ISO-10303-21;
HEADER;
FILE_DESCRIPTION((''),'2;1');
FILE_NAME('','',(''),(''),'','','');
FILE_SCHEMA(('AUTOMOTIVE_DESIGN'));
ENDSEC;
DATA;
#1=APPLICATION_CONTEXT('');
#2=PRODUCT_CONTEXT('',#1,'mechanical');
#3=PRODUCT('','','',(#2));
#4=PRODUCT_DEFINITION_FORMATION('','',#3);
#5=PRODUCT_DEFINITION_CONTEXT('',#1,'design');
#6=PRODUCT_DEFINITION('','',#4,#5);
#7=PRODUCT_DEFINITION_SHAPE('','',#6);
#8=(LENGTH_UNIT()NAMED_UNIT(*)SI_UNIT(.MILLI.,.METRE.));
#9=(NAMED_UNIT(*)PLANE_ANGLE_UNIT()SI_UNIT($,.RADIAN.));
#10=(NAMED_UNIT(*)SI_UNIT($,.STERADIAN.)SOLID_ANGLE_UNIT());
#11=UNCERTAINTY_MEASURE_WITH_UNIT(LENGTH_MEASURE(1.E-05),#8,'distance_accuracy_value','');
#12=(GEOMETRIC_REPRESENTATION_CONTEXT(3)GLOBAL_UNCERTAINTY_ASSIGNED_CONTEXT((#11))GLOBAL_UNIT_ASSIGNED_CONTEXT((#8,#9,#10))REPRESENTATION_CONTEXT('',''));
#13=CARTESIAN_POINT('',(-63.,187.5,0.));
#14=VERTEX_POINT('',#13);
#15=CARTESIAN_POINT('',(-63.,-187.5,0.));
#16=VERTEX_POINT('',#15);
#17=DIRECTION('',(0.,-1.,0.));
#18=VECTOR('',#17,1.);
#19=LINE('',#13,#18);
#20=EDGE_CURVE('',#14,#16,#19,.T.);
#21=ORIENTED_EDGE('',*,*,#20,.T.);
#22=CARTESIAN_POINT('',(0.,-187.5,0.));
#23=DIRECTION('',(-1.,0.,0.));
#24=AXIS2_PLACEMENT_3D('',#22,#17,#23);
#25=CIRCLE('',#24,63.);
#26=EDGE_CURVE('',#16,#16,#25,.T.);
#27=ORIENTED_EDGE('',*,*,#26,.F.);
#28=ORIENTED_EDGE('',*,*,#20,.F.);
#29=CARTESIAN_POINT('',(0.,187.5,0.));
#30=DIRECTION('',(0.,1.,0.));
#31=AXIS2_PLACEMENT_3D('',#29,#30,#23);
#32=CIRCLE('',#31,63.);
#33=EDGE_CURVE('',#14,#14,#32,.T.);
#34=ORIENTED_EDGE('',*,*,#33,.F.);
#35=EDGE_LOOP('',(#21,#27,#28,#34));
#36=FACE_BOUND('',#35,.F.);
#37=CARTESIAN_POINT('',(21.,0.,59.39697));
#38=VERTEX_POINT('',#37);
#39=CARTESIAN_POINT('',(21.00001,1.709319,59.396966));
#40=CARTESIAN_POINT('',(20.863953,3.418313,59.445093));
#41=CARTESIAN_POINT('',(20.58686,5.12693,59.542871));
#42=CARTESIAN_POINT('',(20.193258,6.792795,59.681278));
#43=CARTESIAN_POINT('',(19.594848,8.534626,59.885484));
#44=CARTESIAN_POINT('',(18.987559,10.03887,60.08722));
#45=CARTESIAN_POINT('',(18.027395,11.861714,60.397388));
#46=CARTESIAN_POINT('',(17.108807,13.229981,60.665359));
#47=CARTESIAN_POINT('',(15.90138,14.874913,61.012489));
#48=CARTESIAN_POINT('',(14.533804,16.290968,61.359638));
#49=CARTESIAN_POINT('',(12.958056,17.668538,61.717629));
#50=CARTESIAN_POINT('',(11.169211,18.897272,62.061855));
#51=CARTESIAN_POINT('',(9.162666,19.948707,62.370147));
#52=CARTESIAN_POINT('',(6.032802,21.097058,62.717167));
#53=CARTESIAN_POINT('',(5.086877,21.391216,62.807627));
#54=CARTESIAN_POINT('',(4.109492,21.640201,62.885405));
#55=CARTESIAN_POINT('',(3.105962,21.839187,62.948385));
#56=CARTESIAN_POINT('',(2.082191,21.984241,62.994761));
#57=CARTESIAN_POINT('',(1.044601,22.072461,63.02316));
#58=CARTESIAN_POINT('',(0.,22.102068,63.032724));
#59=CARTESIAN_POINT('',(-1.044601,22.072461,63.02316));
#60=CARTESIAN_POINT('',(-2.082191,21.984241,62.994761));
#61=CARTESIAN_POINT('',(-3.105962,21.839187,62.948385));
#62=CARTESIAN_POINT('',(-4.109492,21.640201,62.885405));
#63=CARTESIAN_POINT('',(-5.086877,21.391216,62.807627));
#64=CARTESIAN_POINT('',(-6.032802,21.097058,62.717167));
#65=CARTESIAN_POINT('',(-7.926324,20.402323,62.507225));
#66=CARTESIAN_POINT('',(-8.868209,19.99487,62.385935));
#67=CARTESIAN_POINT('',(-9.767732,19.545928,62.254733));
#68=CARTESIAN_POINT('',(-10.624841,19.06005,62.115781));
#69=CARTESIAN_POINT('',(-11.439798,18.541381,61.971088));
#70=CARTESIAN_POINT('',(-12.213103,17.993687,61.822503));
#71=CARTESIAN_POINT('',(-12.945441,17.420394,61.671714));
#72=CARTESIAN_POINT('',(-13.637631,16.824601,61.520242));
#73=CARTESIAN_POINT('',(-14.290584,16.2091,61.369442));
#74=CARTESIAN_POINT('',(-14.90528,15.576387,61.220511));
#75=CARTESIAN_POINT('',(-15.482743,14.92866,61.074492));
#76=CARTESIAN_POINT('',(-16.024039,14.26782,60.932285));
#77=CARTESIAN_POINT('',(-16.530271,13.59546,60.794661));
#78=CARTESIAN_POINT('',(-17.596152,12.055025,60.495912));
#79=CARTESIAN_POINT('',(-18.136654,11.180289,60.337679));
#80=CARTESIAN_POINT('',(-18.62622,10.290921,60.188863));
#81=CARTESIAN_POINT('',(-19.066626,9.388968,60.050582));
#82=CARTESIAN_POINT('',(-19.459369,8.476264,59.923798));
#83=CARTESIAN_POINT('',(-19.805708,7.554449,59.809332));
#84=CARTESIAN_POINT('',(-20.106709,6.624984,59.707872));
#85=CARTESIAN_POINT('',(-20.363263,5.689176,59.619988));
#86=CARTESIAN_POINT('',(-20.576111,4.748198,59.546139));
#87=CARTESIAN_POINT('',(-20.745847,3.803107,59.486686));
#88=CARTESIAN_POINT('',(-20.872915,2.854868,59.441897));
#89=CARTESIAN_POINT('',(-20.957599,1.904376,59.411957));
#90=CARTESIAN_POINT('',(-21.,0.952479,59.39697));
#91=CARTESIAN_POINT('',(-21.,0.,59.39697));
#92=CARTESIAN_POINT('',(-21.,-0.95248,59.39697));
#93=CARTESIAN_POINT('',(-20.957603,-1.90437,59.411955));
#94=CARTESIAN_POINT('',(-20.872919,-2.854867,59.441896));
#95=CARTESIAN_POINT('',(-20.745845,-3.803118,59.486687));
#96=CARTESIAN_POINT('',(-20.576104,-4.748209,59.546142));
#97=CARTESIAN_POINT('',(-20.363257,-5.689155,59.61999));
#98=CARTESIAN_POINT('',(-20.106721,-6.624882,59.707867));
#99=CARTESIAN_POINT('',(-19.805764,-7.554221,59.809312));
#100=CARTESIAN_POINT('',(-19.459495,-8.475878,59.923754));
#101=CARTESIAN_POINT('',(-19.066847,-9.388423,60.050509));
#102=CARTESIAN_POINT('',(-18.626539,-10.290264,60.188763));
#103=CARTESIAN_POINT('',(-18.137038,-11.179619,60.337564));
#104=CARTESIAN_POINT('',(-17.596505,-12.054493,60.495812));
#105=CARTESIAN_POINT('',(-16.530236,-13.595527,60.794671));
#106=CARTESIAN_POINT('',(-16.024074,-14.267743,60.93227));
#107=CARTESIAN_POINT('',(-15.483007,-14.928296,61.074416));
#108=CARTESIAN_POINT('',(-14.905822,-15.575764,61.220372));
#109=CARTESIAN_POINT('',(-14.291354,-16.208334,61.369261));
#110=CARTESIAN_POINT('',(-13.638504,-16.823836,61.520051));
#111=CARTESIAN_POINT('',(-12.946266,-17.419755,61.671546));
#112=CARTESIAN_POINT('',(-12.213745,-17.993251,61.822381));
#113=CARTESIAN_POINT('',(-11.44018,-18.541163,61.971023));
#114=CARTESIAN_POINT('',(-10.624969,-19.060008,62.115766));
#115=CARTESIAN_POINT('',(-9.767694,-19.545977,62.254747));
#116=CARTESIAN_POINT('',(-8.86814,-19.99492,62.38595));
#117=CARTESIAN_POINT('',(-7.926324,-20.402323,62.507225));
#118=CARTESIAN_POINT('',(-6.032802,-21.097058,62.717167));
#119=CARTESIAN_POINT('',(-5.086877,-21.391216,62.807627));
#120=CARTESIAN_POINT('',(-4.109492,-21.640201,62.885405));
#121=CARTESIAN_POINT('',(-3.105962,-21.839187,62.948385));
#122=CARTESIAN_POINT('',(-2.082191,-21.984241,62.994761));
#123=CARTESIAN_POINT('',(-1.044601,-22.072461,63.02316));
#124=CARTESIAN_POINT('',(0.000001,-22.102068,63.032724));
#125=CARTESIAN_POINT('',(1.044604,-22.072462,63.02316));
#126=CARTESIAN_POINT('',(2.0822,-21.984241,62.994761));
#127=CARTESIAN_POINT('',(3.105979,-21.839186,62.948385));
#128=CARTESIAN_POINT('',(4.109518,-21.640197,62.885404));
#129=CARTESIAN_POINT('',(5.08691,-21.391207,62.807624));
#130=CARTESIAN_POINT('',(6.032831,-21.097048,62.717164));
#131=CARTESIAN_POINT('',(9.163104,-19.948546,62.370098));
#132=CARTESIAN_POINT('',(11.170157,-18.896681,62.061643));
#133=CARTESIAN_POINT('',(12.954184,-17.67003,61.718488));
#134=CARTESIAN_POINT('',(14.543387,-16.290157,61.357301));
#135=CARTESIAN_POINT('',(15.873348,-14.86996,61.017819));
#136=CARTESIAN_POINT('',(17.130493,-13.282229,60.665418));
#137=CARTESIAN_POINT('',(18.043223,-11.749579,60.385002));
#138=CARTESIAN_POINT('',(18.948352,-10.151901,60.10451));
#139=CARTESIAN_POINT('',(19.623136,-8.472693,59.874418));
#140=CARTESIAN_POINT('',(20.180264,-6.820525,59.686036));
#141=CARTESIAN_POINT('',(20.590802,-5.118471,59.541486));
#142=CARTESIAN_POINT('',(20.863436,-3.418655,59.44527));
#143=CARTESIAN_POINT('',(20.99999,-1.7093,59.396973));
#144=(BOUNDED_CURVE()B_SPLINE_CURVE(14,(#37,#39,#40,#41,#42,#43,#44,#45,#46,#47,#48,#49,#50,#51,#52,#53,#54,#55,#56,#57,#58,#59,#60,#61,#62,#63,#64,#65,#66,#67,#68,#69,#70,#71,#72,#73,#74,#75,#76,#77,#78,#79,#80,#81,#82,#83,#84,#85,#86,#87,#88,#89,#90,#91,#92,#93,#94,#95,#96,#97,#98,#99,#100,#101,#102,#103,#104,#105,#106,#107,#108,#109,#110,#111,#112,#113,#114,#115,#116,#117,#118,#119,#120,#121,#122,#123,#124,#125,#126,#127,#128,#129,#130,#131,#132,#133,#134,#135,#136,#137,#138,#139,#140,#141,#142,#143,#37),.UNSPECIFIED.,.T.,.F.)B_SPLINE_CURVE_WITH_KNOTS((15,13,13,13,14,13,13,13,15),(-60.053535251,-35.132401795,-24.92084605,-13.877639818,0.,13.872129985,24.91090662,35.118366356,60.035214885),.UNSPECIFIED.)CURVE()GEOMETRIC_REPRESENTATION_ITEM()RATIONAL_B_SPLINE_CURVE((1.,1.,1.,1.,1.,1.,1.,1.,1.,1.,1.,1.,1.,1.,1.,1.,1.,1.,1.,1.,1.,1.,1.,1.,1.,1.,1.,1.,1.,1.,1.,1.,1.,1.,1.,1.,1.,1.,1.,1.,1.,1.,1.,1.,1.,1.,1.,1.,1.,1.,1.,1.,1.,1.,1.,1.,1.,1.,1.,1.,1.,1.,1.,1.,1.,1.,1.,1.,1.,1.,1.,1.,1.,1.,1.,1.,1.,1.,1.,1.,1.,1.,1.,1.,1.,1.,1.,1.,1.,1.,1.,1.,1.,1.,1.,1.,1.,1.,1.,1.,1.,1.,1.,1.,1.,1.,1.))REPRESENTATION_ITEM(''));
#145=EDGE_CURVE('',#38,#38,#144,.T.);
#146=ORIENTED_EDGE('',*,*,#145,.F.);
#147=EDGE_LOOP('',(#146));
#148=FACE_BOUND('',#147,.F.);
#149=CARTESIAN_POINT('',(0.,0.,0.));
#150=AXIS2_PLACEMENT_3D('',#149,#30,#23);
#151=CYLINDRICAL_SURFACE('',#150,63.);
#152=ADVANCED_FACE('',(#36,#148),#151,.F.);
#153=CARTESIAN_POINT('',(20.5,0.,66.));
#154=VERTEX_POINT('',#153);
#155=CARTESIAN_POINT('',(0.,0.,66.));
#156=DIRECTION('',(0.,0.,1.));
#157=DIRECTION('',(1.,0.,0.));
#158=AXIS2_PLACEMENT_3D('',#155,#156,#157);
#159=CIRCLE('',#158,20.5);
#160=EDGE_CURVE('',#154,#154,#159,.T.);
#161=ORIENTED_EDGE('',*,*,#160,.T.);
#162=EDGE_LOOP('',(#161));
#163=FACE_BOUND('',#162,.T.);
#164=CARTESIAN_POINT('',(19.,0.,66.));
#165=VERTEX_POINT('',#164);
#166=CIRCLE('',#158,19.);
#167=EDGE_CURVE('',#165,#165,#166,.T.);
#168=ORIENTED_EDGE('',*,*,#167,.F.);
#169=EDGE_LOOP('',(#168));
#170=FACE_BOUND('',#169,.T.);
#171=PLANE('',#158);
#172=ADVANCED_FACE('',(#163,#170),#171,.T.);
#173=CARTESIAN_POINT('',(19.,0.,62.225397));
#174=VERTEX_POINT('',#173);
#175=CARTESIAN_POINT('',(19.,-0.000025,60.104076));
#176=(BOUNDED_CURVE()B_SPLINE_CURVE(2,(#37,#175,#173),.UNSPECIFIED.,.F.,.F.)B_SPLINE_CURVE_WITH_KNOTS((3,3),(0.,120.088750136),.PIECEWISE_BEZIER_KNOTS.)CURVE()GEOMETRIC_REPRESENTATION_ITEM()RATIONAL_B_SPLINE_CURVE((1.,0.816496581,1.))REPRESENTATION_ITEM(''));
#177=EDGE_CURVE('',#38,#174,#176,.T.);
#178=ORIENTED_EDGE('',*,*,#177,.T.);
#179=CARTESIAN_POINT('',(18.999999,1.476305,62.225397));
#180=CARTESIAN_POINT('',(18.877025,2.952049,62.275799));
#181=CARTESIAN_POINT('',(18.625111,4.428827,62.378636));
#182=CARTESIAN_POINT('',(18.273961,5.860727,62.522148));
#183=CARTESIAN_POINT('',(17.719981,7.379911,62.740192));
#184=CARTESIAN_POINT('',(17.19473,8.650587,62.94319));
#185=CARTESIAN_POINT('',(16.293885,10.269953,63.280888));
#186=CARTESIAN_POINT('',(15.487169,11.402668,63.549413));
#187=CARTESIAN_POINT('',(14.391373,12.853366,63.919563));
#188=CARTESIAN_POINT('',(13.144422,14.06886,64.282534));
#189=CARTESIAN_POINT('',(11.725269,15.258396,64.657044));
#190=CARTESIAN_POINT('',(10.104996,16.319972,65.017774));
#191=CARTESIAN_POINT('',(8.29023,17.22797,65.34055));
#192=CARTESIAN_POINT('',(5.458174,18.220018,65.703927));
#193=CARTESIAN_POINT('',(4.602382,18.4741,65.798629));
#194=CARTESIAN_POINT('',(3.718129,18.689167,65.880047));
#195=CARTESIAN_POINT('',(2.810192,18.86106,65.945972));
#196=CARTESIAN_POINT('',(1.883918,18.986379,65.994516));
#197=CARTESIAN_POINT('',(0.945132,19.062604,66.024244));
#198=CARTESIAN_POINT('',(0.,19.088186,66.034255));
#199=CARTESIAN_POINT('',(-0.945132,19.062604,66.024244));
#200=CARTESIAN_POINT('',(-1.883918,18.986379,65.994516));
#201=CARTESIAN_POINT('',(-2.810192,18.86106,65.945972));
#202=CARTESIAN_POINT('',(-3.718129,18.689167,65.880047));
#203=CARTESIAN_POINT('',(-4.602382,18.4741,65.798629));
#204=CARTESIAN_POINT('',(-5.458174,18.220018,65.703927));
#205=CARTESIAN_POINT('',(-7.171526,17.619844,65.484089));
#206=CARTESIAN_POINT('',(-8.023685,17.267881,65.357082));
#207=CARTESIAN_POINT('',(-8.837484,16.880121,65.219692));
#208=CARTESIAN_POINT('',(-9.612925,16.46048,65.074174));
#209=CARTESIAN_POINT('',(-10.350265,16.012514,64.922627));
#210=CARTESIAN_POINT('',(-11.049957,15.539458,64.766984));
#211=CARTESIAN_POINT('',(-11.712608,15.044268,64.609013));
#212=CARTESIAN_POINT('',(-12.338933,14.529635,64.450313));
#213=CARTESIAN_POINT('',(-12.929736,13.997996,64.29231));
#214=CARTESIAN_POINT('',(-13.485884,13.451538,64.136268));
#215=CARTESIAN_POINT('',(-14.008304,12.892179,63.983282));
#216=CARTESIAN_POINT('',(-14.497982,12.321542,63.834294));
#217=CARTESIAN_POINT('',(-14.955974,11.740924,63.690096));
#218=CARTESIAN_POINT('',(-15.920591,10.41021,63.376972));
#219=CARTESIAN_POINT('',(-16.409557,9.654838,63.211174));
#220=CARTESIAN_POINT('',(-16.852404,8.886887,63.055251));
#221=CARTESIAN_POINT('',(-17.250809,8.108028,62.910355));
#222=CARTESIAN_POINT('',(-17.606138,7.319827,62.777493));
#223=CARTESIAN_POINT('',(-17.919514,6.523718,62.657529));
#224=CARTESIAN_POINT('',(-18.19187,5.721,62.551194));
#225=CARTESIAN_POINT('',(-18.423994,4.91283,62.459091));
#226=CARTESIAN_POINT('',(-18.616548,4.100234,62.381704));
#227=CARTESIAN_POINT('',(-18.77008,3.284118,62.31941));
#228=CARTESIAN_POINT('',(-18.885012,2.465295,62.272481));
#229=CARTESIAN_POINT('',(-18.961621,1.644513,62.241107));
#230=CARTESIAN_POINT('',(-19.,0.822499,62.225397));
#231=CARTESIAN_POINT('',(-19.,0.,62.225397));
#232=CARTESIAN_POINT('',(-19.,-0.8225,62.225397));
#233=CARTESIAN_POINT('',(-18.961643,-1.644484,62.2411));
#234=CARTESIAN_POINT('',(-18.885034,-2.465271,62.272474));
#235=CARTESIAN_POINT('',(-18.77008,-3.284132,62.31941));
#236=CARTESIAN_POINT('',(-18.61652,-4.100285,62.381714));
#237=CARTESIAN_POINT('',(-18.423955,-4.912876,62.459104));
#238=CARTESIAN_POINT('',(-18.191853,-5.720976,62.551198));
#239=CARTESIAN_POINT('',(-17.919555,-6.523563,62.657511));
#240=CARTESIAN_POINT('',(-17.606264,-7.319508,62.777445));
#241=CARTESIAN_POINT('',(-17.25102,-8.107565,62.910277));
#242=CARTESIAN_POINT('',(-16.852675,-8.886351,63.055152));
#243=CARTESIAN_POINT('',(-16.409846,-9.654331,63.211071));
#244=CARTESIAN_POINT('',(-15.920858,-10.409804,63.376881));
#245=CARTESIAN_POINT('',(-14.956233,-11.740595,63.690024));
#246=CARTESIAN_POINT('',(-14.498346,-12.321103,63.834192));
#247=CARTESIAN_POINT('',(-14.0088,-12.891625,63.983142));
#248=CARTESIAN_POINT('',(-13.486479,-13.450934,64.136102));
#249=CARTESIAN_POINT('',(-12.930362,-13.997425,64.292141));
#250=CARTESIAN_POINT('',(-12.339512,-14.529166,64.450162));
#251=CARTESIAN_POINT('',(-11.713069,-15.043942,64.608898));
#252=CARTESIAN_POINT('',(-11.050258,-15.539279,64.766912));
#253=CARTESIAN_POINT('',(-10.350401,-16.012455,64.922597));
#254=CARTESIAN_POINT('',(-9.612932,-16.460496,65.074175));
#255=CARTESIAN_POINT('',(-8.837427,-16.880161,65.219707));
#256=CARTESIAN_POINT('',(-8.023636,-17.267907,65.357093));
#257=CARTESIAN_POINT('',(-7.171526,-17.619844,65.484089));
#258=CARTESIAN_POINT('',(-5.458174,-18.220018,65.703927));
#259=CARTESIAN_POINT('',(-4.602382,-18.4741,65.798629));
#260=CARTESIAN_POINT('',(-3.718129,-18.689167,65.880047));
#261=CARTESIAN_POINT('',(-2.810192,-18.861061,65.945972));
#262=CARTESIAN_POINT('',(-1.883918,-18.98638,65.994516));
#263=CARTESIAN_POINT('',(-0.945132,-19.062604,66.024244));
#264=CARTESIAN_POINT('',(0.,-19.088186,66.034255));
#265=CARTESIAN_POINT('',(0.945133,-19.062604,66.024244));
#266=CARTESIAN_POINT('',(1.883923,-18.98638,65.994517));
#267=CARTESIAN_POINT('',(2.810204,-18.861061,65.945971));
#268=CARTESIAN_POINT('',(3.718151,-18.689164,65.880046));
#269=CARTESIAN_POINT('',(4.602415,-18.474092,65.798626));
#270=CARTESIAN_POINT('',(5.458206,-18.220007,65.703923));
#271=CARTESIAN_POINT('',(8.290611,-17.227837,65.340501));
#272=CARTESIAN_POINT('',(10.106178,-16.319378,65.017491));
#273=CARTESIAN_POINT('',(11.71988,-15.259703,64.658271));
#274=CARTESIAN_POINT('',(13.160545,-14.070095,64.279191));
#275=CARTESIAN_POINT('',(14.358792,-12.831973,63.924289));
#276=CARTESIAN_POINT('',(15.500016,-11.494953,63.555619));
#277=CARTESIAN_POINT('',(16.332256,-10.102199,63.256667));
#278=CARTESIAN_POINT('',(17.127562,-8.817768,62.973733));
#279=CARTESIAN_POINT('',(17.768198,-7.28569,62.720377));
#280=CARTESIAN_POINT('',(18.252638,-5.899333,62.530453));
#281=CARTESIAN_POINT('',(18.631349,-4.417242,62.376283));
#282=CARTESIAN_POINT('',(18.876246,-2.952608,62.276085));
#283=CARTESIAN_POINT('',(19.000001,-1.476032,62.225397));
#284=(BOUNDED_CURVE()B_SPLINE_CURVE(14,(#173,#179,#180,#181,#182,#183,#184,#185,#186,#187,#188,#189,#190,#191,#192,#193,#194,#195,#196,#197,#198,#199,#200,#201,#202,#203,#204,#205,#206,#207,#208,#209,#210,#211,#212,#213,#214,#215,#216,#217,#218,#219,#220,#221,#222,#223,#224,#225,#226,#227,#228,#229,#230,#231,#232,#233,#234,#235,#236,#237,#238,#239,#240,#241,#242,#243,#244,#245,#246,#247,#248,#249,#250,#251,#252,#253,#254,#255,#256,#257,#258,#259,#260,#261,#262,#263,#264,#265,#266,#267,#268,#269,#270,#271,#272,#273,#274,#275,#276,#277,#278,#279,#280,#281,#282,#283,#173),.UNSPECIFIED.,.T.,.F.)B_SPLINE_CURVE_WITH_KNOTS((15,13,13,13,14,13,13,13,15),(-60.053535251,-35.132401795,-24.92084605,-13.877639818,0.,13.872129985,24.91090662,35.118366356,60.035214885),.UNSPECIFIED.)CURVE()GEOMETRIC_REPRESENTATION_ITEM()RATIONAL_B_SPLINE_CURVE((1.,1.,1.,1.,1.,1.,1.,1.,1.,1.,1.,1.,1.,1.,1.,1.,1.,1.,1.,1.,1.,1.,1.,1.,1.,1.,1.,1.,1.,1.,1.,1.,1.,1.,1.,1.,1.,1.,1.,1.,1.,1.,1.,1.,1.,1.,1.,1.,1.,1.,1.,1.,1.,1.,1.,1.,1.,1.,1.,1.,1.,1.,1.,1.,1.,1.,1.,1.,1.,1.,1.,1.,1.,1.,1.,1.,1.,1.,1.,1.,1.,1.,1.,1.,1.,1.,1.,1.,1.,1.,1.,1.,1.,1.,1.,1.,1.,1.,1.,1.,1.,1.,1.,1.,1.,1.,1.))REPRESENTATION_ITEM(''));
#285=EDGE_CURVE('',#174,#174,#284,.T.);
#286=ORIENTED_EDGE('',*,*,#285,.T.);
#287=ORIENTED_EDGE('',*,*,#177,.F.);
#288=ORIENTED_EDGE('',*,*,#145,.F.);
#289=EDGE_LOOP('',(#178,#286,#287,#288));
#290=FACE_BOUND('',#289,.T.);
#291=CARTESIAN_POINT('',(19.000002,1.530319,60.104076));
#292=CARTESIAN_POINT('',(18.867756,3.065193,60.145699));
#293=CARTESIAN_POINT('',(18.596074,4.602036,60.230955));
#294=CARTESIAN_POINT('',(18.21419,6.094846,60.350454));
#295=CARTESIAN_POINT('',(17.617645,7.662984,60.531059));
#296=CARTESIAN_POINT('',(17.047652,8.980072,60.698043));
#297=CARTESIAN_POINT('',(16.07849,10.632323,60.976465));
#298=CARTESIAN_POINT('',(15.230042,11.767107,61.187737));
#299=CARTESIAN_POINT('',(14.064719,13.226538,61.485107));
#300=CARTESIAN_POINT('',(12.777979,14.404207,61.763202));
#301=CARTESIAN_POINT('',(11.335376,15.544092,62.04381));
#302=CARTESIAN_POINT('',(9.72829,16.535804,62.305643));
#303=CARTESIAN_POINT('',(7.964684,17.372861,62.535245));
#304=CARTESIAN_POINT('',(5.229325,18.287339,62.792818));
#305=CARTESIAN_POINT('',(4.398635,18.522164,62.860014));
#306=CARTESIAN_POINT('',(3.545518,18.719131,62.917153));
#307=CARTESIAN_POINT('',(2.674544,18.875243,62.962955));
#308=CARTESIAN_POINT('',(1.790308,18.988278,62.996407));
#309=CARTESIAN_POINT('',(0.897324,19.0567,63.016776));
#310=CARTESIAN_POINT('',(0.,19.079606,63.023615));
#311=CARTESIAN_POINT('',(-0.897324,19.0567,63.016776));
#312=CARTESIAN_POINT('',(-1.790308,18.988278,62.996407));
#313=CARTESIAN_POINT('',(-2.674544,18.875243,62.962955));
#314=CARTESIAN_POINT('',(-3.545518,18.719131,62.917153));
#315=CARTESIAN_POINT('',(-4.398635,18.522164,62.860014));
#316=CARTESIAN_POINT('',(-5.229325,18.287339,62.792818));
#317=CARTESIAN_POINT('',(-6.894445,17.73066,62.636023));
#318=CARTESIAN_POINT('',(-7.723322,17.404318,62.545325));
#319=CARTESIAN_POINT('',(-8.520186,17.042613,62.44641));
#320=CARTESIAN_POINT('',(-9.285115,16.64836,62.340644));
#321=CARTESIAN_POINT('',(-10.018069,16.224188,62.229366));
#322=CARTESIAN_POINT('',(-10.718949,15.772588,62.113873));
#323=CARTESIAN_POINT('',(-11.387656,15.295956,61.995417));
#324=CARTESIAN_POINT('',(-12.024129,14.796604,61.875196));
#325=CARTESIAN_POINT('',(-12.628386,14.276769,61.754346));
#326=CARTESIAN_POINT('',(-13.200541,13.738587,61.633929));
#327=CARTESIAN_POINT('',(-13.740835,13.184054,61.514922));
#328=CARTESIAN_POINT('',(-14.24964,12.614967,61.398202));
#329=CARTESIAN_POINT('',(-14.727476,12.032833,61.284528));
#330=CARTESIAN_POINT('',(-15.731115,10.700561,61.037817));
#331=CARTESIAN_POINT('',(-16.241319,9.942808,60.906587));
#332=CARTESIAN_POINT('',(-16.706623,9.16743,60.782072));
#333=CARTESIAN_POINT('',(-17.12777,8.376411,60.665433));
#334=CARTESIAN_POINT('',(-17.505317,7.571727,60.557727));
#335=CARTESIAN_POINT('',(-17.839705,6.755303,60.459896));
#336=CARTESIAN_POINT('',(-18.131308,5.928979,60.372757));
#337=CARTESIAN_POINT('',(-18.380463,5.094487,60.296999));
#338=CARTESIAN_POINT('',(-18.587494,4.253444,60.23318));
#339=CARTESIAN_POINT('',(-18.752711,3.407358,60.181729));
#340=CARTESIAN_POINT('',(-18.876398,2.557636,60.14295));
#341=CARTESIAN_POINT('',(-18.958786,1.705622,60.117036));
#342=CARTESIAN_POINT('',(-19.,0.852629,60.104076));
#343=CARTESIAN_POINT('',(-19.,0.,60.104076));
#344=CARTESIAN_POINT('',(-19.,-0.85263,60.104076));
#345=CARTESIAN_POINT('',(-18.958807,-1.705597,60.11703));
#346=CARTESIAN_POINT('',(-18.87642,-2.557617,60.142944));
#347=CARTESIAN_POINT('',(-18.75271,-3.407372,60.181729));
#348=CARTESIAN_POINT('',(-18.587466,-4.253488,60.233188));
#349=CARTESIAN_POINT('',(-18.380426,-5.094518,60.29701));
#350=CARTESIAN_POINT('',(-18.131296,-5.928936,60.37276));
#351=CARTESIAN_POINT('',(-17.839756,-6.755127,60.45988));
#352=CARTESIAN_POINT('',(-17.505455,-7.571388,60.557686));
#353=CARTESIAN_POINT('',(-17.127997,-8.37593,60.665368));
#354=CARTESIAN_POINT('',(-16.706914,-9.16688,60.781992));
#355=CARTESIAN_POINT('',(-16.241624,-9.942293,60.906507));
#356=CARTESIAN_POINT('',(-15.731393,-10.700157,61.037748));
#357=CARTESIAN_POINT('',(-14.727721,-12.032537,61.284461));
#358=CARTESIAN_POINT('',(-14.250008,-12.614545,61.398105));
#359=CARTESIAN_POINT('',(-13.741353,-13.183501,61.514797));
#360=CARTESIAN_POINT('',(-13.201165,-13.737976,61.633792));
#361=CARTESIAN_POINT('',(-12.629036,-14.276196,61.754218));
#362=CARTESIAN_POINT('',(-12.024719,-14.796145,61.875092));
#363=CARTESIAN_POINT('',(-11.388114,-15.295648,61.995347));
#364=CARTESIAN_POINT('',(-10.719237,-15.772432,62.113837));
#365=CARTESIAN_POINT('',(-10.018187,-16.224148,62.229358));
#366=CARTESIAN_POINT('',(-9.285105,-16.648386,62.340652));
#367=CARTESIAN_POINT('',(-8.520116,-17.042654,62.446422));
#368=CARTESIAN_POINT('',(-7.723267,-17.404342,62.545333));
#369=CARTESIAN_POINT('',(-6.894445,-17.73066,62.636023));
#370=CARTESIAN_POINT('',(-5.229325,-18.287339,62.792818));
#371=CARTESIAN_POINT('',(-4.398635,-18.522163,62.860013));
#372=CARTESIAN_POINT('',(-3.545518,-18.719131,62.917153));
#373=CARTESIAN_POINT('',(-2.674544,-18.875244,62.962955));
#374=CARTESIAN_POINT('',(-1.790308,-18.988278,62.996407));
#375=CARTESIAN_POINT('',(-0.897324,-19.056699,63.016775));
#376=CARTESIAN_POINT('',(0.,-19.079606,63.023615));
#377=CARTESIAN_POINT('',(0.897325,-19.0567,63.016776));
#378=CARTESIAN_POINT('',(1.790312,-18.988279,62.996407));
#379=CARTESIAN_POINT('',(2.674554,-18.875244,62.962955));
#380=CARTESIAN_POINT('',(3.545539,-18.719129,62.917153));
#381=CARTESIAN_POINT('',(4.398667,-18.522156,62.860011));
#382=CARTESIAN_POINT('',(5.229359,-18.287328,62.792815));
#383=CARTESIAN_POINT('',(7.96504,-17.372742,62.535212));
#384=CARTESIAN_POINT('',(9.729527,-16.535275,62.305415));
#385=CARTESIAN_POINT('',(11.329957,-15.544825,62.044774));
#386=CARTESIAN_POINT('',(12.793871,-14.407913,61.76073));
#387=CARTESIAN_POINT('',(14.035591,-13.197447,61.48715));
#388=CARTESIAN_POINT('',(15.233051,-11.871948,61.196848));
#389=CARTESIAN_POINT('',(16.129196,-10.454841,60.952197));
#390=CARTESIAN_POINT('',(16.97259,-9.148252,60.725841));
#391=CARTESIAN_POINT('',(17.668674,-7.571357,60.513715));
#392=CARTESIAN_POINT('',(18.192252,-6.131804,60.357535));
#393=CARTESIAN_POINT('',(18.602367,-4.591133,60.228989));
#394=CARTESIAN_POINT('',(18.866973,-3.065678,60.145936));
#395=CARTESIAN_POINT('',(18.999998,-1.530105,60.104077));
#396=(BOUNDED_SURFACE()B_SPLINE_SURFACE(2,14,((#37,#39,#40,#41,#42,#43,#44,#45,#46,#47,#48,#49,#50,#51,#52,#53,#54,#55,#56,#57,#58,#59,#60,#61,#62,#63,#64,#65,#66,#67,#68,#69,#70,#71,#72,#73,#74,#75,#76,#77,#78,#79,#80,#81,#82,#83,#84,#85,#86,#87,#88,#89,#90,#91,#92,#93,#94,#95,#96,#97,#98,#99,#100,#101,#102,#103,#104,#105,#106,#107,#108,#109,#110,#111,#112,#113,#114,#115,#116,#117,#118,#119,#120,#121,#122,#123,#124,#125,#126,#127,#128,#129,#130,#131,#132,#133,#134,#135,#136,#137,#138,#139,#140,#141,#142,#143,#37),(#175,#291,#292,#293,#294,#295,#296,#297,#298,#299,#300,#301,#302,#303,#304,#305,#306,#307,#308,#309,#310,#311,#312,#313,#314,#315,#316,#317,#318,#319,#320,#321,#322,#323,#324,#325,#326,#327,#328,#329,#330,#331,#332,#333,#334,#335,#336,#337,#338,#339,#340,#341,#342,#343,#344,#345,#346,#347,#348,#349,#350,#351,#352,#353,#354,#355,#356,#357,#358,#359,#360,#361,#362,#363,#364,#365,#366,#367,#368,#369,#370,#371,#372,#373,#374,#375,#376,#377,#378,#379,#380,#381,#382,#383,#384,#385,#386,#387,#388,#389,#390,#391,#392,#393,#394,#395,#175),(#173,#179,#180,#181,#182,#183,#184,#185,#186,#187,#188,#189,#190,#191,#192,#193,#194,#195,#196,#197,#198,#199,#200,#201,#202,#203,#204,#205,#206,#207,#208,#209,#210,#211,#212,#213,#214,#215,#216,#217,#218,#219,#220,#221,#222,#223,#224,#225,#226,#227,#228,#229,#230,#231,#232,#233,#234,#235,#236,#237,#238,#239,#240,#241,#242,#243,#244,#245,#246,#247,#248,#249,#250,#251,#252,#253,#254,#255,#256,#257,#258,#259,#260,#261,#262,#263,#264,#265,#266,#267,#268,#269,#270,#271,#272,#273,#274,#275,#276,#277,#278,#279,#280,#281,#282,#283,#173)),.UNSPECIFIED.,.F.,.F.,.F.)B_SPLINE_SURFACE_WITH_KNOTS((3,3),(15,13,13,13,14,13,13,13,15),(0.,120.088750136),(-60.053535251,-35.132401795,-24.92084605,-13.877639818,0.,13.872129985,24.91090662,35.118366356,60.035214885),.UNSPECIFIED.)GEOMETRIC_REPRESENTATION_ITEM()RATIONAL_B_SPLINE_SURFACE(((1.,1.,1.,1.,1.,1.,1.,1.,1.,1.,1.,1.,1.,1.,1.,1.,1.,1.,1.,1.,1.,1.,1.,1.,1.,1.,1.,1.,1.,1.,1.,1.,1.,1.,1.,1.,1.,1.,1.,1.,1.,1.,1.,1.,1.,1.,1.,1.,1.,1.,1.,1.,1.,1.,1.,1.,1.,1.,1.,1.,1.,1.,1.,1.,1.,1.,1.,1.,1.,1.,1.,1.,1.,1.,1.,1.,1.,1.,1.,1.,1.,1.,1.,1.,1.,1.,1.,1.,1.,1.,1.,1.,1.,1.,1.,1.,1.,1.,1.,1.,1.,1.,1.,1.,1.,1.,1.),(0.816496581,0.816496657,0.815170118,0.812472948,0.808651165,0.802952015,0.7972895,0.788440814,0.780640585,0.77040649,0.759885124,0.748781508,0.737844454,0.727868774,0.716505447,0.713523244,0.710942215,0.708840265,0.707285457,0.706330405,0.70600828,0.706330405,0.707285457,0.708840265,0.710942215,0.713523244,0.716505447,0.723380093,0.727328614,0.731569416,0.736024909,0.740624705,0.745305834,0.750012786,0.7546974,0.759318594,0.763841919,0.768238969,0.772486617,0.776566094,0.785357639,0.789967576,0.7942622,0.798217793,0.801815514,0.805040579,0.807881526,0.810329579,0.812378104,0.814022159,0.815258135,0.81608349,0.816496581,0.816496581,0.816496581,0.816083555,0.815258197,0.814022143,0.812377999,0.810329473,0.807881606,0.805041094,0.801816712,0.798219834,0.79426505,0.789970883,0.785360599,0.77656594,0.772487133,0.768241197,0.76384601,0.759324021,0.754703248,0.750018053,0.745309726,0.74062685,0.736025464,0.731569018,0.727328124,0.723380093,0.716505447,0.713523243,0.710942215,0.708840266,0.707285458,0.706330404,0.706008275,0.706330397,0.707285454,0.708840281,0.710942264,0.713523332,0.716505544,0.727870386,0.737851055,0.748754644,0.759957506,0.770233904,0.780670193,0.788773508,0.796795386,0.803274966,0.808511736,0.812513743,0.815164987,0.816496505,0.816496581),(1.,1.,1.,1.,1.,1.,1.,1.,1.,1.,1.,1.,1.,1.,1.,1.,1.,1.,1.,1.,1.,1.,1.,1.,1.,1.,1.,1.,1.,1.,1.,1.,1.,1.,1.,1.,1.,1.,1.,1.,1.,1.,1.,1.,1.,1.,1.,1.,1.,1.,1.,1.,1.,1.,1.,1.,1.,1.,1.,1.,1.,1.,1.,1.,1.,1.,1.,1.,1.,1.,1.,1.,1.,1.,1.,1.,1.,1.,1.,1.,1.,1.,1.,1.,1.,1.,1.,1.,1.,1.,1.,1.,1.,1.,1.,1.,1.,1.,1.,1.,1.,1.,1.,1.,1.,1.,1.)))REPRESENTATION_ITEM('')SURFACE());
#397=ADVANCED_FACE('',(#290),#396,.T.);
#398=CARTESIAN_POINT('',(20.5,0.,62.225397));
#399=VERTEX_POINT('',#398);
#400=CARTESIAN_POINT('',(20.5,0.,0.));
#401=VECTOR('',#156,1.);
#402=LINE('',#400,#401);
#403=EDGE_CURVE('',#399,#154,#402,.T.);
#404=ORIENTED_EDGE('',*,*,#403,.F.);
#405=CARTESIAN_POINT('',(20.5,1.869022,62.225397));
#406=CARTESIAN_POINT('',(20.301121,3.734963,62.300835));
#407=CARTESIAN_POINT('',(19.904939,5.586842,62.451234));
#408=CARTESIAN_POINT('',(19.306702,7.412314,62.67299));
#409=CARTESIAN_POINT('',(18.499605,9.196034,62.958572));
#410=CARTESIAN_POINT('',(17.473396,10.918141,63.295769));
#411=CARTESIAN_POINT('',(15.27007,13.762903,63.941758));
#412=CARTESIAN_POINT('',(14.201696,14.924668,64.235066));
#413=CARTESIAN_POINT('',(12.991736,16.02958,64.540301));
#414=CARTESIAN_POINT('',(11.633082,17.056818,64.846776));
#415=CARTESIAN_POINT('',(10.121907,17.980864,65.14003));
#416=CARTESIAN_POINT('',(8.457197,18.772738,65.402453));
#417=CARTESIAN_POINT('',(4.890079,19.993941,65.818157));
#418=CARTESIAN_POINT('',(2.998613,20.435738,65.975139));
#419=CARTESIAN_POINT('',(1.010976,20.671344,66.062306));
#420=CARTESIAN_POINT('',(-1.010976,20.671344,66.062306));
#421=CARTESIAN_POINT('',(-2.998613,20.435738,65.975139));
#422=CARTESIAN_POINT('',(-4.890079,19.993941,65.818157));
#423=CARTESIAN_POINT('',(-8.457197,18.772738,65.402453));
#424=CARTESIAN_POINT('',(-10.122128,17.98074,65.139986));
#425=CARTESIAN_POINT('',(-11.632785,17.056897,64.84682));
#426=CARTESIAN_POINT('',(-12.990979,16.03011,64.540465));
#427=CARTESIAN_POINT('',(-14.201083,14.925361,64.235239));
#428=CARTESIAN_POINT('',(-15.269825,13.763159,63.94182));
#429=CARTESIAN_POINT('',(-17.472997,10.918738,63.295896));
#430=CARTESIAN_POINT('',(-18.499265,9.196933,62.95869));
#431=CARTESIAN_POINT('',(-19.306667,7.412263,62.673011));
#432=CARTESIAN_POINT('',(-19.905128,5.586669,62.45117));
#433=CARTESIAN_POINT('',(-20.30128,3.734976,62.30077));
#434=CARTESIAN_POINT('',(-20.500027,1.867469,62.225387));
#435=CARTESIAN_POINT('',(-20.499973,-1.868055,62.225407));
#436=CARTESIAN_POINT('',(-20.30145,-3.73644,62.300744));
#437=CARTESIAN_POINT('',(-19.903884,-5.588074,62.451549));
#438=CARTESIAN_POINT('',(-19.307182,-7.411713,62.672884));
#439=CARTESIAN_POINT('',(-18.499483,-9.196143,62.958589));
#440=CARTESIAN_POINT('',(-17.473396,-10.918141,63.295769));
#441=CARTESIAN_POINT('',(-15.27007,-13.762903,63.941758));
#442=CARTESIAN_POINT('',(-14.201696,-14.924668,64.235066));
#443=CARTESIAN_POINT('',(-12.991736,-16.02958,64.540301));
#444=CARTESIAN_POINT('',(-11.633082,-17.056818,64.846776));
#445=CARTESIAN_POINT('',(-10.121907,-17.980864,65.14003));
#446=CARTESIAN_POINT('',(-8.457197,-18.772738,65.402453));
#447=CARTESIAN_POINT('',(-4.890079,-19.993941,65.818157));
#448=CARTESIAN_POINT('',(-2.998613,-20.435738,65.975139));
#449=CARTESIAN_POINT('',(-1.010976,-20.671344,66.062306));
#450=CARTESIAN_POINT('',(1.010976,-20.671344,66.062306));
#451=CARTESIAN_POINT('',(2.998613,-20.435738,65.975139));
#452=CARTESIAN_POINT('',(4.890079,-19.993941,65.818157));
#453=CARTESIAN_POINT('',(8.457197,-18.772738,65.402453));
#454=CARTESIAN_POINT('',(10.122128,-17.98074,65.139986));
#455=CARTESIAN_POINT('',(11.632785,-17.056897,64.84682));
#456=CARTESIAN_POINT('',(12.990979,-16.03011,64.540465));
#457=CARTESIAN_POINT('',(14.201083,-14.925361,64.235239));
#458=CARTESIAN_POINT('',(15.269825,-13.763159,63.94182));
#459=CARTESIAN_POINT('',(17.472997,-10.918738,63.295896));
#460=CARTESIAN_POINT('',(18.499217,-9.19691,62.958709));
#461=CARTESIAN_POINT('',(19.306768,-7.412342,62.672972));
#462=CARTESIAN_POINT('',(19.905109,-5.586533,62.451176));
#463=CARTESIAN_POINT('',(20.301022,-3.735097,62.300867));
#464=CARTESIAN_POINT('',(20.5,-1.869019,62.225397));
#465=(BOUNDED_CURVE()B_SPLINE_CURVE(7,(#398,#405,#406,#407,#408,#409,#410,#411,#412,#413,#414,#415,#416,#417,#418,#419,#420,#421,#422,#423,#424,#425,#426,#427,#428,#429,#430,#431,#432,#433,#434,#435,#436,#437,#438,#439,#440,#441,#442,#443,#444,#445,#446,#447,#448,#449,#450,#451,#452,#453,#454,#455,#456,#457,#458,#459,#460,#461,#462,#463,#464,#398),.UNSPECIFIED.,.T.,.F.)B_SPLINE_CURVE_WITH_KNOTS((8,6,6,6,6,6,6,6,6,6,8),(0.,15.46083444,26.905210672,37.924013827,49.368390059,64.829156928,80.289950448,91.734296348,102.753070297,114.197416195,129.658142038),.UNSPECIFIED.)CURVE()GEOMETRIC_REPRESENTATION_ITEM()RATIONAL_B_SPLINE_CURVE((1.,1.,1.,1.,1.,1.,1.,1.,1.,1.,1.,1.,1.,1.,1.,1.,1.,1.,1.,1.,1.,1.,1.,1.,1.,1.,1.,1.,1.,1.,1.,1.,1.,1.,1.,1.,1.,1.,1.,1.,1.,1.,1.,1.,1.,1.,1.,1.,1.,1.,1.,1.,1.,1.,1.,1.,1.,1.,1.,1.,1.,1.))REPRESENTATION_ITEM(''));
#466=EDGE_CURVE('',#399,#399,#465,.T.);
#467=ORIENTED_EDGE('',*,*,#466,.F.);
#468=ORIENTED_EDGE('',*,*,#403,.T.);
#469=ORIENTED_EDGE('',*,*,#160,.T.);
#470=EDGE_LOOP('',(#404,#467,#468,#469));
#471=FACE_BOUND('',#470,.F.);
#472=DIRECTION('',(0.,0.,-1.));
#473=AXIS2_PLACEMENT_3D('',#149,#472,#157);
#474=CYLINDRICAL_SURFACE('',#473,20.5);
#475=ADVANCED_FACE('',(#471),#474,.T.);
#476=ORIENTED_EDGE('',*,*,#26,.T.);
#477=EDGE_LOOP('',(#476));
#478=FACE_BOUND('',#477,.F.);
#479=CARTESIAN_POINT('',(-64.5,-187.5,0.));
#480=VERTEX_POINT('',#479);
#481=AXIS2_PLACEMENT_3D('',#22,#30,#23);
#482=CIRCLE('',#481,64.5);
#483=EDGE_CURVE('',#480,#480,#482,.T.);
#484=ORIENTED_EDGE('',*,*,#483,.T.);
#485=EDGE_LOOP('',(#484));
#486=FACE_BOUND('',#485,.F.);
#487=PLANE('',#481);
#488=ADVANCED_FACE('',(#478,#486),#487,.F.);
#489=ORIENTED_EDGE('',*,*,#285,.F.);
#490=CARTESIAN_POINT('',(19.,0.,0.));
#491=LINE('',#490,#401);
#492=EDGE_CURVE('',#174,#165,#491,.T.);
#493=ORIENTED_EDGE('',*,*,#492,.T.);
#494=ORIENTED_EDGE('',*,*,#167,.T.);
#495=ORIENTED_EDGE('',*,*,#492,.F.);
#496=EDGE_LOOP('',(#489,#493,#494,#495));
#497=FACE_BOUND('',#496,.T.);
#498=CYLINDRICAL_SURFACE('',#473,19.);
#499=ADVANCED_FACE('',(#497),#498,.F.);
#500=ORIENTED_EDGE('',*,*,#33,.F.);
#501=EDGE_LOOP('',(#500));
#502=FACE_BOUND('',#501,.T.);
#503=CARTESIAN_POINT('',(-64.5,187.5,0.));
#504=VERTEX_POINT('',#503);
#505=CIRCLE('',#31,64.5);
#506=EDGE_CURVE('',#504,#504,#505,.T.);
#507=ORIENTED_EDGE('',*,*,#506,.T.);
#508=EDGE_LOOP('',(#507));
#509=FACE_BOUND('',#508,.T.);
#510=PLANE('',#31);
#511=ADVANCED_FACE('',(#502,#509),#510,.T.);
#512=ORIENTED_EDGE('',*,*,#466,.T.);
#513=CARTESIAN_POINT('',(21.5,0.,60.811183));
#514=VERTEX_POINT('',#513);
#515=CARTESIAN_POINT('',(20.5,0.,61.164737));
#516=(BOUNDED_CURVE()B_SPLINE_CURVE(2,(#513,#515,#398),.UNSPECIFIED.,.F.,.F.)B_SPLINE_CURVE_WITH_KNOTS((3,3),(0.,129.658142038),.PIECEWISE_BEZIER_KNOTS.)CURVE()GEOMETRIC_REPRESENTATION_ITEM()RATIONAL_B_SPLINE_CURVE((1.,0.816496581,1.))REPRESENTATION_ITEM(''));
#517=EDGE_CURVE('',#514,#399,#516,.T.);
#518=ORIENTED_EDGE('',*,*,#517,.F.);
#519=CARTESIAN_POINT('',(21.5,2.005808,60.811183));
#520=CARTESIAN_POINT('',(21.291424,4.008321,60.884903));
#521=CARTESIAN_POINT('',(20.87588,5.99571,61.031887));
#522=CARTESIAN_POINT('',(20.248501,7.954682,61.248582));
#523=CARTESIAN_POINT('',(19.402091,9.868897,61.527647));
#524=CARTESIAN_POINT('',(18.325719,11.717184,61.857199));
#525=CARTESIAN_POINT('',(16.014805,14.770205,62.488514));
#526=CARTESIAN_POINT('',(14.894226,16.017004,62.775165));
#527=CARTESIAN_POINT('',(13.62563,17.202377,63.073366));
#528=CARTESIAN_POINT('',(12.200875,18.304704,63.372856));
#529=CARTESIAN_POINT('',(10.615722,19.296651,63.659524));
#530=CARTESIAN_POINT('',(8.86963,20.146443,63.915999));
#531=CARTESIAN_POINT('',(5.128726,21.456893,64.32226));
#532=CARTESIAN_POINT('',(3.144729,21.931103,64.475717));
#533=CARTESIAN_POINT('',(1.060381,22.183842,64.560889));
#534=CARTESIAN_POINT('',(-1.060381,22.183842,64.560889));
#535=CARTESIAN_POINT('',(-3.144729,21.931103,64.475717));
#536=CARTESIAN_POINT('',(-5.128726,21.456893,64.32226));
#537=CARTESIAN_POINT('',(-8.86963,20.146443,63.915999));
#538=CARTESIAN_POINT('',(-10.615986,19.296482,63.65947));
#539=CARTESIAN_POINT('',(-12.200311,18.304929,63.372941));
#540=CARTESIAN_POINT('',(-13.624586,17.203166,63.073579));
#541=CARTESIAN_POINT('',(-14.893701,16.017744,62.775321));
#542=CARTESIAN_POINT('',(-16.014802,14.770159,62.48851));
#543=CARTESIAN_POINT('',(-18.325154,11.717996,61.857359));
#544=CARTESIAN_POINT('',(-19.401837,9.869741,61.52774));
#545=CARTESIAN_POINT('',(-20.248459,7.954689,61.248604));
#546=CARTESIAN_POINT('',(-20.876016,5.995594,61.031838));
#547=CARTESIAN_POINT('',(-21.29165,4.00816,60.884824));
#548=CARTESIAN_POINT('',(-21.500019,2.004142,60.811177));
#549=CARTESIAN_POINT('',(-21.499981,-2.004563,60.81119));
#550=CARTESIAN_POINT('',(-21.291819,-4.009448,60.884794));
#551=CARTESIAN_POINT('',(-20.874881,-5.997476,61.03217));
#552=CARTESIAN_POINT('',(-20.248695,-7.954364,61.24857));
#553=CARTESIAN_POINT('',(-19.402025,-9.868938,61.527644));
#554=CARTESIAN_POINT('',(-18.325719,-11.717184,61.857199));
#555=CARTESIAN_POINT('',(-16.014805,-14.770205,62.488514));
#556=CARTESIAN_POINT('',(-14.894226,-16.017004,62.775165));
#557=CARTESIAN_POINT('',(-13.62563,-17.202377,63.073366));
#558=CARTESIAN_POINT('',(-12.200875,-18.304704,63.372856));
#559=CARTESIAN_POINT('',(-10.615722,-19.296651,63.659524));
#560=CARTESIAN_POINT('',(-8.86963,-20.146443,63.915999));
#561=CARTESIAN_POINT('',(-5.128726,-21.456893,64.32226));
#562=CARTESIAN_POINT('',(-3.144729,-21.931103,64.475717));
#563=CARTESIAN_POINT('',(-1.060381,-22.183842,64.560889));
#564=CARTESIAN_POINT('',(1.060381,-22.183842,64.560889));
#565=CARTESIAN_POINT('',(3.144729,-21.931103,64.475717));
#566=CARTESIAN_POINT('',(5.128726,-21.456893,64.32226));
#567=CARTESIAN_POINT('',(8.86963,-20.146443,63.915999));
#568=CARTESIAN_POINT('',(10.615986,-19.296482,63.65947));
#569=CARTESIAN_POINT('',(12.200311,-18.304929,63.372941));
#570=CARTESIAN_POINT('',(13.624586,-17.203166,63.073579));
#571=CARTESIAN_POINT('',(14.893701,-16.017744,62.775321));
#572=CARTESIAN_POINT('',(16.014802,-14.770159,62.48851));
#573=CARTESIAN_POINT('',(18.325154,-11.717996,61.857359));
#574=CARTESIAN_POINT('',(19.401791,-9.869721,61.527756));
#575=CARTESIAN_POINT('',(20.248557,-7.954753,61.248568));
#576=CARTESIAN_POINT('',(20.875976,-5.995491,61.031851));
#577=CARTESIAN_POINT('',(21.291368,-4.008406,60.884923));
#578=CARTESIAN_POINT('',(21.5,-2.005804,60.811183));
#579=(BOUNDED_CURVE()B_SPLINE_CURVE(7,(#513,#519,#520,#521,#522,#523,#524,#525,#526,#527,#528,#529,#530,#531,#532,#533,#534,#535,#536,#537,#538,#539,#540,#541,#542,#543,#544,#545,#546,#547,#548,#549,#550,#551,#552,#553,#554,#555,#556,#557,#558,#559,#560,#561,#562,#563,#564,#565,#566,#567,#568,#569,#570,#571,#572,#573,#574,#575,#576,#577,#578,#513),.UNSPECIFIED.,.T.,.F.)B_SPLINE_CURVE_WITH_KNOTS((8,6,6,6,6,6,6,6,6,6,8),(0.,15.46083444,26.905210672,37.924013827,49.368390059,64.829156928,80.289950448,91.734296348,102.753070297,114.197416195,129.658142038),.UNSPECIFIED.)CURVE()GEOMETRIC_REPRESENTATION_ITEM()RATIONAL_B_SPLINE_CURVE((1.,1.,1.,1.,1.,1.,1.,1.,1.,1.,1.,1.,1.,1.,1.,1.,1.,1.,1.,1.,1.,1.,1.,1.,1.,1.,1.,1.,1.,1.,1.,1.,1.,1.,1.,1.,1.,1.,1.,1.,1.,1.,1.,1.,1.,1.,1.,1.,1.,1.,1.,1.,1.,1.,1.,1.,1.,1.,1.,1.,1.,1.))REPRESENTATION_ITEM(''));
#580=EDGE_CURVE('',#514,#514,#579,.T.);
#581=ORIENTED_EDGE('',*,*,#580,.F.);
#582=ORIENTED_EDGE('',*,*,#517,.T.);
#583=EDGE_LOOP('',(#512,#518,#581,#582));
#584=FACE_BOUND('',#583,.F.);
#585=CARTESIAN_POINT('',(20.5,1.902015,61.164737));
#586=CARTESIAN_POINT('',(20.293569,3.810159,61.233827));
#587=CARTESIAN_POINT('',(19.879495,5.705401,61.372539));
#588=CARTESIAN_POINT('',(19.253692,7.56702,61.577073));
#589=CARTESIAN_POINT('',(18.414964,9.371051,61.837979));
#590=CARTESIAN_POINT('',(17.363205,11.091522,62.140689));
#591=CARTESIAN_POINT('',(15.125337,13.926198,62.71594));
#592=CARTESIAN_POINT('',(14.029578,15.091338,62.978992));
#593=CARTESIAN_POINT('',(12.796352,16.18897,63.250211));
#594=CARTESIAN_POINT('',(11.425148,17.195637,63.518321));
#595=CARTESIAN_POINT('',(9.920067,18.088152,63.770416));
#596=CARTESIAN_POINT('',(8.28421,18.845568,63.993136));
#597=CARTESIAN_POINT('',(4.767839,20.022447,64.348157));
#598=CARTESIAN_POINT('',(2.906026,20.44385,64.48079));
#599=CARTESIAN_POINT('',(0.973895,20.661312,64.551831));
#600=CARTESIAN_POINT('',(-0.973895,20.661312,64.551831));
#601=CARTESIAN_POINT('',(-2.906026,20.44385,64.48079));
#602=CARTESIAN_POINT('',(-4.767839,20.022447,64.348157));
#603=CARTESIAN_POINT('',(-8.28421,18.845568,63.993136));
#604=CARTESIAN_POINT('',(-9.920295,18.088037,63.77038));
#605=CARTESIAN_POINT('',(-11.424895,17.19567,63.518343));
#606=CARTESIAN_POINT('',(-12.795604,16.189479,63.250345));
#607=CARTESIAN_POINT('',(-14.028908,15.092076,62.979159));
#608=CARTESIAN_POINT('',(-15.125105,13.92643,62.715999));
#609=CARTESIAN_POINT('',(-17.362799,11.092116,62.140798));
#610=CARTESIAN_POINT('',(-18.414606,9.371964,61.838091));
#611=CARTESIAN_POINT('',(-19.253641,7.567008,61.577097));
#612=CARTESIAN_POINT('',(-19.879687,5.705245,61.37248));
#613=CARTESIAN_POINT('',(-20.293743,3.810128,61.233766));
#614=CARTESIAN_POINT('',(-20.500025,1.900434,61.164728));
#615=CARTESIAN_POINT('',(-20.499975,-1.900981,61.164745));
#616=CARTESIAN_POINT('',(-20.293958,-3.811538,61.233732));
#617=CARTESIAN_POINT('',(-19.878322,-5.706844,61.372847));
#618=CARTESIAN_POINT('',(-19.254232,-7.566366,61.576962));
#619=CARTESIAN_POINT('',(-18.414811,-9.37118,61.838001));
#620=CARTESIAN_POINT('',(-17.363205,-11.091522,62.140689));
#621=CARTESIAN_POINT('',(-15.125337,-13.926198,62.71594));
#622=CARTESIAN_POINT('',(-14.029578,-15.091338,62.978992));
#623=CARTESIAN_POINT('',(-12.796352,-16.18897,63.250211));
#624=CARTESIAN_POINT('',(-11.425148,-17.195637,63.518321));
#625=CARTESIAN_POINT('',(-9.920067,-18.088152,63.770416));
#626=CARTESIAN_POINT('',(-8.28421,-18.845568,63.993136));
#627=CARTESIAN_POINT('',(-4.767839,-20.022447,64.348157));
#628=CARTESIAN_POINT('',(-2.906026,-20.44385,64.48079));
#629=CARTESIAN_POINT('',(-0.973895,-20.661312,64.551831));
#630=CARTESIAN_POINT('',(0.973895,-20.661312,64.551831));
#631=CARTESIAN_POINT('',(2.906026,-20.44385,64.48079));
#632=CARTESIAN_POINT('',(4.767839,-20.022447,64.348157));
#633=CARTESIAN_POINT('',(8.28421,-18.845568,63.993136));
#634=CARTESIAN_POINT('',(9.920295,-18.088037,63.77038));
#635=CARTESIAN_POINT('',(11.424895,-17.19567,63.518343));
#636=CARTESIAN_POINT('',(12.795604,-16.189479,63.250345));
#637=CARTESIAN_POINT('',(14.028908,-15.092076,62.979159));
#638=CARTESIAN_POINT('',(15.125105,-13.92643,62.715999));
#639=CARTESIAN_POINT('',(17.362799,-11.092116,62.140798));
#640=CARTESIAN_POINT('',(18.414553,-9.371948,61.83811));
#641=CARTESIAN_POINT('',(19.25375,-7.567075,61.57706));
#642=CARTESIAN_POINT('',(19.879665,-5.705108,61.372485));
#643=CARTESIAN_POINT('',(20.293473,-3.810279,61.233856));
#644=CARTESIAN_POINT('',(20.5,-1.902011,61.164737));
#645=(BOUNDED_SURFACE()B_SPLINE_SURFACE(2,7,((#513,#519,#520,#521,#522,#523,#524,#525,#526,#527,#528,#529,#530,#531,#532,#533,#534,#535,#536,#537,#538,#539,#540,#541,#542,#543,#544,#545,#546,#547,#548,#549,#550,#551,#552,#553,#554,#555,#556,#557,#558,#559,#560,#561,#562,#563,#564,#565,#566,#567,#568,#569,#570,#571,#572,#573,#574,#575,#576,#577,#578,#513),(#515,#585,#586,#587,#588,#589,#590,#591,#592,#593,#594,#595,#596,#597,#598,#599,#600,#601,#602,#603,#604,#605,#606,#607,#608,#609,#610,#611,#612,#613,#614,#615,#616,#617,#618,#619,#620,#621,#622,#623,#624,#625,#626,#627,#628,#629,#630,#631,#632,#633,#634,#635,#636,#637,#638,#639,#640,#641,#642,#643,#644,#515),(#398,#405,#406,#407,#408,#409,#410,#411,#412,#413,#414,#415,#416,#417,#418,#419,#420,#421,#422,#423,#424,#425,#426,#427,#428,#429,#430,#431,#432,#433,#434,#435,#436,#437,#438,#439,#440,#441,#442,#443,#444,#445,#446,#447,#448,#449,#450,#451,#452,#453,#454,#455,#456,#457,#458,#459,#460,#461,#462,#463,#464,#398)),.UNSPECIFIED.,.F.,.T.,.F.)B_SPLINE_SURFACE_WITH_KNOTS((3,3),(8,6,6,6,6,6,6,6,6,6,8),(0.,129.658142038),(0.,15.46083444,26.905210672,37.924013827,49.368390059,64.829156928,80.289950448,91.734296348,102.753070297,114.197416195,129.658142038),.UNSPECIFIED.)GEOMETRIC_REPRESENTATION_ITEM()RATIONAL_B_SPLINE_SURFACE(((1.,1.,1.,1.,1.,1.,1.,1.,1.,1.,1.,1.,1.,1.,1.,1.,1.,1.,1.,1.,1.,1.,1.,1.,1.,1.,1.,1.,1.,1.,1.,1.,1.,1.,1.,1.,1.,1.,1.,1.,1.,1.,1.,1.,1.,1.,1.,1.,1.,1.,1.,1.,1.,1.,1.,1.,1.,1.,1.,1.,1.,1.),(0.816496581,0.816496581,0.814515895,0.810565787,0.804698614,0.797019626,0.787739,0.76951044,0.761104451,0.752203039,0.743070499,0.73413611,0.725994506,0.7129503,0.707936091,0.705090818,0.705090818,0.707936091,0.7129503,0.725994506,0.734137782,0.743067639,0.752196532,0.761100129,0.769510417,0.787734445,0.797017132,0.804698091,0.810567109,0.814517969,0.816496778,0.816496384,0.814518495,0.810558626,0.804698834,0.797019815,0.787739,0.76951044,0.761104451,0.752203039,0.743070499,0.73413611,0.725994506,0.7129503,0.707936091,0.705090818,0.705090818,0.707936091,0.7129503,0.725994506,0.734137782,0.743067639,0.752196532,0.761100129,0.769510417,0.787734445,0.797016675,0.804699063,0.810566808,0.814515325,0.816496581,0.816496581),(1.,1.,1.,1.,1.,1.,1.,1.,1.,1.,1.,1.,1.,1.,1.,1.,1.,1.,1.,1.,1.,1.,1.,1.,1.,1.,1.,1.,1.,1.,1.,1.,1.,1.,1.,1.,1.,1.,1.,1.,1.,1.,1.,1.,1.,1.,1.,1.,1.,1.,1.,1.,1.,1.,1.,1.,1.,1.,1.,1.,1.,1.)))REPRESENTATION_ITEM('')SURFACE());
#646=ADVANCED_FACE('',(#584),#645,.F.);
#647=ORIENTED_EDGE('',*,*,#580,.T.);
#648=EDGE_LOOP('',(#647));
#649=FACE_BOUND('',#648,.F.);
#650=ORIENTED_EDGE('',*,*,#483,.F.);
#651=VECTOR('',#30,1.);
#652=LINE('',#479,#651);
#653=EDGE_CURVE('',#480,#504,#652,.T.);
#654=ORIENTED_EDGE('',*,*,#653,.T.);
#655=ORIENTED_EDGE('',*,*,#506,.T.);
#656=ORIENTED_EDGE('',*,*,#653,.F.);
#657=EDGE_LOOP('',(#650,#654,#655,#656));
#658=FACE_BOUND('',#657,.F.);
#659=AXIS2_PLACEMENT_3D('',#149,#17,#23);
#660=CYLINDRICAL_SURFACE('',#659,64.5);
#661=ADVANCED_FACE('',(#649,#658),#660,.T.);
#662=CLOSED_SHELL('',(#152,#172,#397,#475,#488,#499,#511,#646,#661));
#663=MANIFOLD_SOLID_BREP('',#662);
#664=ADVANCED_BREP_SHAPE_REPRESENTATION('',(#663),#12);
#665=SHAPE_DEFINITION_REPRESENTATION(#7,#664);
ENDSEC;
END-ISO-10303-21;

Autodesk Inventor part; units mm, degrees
ref_plane "YZ Plane" through (0, 0, 0) normal (1, 0, 0) x (0, 1, 0)
ref_plane "XZ Plane" through (0, 0, 0) normal (0, 1, 0) x (-1, 0, 0)
ref_plane "XY Plane" through (0, 0, 0) normal (0, 0, 1) x (1, 0, 0)
sketch "Szkic8" plane through (0, 0, 0) normal (0, 1, 0) x (-1, 0, 0)
  circle A0 centre (0, 0) radius 64.5
  circle A1 centre (0, 0) radius 63
  dimension "d53" = 129
  dimension "d54" = 1.5
extrude "Wyciągnięcie proste2" add sketch "Szkic8" along normal mid plane 375
sketch "Szkic13" plane through (0, 0, 0) normal (0, 0, 1) x (1, 0, 0)
  circle A0 centre (0, 0) radius 20.5
  circle A1 centre (0, 0) radius 19
  dimension "d67" = 41
  dimension "d68" = 1.5
extrude "Wyciągnięcie proste6" add sketch "Szkic13" along normal blind 66
sketch "Szkic14" plane through (0, 0, 66) normal (0, 0, 1) x (1, 0, 0)
  circle A0 centre (0, 0) radius 19 projected
extrude "Wyciągnięcie proste7" cut sketch "Szkic14" against normal blind 66
sketch "Szkic15" plane through (0, -187.5, 0) normal (0, -1, 0) x (1, 0, 0)
  circle A0 centre (0, 0) radius 63 projected
extrude "Wyciągnięcie proste8" cut sketch "Szkic15" against normal blind 375
fillet "Zaokrąglenie3" radius 1.5 2 edges at (-0.0043, 20.5, 64.5) (-0.0044, -20.5, 64.5)
fillet "Zaokrąglenie4" radius 3 2 edges at (0, -19, 63) (-0.0038, 19, 63)
equation "\"d53\" = OD"
equation "\"d54\" = THK"
equation "\"d55\" = L1"
equation "\"d67\" = OD2"
equation "\"d68\" = THK"
equation "\"d69\" = L2"
equation "\"d71\" = L2"
equation "\"d73\" = L1"
equation "\"d75\" = THK"
equation "\"d76\" = 2 * THK"
equation "\"SzerokośćGięciaPodcięcia\" = Grubość"
equation "\"RozmiarPodcięciaNarożnika\" = 4 * Grubość"
equation "\"PromieńPrzejścia\" = PromieńGięcia"
equation "\"Rozmiar_promienia_Jacobiego\" = PromieńGięcia"
equation "\"Wielk_odstępu\" = Grubość"
equation "\"d2\" = PromieńGięcia"
equation "\"d23\" = PromieńGięcia"
equation "\"OD\" = 129"
equation "\"THK\" = 1.5"
equation "\"L1\" = 375"
equation "\"L2\" = 66"
equation "\"OD2\" = 41"
equation "\"Grubość\" = 1.5"
equation "\"PromieńGięcia\" = 3"
properties part number "Trójnik red. krótki  Ø129 41 129 s=1,5 L=375" material "304"
